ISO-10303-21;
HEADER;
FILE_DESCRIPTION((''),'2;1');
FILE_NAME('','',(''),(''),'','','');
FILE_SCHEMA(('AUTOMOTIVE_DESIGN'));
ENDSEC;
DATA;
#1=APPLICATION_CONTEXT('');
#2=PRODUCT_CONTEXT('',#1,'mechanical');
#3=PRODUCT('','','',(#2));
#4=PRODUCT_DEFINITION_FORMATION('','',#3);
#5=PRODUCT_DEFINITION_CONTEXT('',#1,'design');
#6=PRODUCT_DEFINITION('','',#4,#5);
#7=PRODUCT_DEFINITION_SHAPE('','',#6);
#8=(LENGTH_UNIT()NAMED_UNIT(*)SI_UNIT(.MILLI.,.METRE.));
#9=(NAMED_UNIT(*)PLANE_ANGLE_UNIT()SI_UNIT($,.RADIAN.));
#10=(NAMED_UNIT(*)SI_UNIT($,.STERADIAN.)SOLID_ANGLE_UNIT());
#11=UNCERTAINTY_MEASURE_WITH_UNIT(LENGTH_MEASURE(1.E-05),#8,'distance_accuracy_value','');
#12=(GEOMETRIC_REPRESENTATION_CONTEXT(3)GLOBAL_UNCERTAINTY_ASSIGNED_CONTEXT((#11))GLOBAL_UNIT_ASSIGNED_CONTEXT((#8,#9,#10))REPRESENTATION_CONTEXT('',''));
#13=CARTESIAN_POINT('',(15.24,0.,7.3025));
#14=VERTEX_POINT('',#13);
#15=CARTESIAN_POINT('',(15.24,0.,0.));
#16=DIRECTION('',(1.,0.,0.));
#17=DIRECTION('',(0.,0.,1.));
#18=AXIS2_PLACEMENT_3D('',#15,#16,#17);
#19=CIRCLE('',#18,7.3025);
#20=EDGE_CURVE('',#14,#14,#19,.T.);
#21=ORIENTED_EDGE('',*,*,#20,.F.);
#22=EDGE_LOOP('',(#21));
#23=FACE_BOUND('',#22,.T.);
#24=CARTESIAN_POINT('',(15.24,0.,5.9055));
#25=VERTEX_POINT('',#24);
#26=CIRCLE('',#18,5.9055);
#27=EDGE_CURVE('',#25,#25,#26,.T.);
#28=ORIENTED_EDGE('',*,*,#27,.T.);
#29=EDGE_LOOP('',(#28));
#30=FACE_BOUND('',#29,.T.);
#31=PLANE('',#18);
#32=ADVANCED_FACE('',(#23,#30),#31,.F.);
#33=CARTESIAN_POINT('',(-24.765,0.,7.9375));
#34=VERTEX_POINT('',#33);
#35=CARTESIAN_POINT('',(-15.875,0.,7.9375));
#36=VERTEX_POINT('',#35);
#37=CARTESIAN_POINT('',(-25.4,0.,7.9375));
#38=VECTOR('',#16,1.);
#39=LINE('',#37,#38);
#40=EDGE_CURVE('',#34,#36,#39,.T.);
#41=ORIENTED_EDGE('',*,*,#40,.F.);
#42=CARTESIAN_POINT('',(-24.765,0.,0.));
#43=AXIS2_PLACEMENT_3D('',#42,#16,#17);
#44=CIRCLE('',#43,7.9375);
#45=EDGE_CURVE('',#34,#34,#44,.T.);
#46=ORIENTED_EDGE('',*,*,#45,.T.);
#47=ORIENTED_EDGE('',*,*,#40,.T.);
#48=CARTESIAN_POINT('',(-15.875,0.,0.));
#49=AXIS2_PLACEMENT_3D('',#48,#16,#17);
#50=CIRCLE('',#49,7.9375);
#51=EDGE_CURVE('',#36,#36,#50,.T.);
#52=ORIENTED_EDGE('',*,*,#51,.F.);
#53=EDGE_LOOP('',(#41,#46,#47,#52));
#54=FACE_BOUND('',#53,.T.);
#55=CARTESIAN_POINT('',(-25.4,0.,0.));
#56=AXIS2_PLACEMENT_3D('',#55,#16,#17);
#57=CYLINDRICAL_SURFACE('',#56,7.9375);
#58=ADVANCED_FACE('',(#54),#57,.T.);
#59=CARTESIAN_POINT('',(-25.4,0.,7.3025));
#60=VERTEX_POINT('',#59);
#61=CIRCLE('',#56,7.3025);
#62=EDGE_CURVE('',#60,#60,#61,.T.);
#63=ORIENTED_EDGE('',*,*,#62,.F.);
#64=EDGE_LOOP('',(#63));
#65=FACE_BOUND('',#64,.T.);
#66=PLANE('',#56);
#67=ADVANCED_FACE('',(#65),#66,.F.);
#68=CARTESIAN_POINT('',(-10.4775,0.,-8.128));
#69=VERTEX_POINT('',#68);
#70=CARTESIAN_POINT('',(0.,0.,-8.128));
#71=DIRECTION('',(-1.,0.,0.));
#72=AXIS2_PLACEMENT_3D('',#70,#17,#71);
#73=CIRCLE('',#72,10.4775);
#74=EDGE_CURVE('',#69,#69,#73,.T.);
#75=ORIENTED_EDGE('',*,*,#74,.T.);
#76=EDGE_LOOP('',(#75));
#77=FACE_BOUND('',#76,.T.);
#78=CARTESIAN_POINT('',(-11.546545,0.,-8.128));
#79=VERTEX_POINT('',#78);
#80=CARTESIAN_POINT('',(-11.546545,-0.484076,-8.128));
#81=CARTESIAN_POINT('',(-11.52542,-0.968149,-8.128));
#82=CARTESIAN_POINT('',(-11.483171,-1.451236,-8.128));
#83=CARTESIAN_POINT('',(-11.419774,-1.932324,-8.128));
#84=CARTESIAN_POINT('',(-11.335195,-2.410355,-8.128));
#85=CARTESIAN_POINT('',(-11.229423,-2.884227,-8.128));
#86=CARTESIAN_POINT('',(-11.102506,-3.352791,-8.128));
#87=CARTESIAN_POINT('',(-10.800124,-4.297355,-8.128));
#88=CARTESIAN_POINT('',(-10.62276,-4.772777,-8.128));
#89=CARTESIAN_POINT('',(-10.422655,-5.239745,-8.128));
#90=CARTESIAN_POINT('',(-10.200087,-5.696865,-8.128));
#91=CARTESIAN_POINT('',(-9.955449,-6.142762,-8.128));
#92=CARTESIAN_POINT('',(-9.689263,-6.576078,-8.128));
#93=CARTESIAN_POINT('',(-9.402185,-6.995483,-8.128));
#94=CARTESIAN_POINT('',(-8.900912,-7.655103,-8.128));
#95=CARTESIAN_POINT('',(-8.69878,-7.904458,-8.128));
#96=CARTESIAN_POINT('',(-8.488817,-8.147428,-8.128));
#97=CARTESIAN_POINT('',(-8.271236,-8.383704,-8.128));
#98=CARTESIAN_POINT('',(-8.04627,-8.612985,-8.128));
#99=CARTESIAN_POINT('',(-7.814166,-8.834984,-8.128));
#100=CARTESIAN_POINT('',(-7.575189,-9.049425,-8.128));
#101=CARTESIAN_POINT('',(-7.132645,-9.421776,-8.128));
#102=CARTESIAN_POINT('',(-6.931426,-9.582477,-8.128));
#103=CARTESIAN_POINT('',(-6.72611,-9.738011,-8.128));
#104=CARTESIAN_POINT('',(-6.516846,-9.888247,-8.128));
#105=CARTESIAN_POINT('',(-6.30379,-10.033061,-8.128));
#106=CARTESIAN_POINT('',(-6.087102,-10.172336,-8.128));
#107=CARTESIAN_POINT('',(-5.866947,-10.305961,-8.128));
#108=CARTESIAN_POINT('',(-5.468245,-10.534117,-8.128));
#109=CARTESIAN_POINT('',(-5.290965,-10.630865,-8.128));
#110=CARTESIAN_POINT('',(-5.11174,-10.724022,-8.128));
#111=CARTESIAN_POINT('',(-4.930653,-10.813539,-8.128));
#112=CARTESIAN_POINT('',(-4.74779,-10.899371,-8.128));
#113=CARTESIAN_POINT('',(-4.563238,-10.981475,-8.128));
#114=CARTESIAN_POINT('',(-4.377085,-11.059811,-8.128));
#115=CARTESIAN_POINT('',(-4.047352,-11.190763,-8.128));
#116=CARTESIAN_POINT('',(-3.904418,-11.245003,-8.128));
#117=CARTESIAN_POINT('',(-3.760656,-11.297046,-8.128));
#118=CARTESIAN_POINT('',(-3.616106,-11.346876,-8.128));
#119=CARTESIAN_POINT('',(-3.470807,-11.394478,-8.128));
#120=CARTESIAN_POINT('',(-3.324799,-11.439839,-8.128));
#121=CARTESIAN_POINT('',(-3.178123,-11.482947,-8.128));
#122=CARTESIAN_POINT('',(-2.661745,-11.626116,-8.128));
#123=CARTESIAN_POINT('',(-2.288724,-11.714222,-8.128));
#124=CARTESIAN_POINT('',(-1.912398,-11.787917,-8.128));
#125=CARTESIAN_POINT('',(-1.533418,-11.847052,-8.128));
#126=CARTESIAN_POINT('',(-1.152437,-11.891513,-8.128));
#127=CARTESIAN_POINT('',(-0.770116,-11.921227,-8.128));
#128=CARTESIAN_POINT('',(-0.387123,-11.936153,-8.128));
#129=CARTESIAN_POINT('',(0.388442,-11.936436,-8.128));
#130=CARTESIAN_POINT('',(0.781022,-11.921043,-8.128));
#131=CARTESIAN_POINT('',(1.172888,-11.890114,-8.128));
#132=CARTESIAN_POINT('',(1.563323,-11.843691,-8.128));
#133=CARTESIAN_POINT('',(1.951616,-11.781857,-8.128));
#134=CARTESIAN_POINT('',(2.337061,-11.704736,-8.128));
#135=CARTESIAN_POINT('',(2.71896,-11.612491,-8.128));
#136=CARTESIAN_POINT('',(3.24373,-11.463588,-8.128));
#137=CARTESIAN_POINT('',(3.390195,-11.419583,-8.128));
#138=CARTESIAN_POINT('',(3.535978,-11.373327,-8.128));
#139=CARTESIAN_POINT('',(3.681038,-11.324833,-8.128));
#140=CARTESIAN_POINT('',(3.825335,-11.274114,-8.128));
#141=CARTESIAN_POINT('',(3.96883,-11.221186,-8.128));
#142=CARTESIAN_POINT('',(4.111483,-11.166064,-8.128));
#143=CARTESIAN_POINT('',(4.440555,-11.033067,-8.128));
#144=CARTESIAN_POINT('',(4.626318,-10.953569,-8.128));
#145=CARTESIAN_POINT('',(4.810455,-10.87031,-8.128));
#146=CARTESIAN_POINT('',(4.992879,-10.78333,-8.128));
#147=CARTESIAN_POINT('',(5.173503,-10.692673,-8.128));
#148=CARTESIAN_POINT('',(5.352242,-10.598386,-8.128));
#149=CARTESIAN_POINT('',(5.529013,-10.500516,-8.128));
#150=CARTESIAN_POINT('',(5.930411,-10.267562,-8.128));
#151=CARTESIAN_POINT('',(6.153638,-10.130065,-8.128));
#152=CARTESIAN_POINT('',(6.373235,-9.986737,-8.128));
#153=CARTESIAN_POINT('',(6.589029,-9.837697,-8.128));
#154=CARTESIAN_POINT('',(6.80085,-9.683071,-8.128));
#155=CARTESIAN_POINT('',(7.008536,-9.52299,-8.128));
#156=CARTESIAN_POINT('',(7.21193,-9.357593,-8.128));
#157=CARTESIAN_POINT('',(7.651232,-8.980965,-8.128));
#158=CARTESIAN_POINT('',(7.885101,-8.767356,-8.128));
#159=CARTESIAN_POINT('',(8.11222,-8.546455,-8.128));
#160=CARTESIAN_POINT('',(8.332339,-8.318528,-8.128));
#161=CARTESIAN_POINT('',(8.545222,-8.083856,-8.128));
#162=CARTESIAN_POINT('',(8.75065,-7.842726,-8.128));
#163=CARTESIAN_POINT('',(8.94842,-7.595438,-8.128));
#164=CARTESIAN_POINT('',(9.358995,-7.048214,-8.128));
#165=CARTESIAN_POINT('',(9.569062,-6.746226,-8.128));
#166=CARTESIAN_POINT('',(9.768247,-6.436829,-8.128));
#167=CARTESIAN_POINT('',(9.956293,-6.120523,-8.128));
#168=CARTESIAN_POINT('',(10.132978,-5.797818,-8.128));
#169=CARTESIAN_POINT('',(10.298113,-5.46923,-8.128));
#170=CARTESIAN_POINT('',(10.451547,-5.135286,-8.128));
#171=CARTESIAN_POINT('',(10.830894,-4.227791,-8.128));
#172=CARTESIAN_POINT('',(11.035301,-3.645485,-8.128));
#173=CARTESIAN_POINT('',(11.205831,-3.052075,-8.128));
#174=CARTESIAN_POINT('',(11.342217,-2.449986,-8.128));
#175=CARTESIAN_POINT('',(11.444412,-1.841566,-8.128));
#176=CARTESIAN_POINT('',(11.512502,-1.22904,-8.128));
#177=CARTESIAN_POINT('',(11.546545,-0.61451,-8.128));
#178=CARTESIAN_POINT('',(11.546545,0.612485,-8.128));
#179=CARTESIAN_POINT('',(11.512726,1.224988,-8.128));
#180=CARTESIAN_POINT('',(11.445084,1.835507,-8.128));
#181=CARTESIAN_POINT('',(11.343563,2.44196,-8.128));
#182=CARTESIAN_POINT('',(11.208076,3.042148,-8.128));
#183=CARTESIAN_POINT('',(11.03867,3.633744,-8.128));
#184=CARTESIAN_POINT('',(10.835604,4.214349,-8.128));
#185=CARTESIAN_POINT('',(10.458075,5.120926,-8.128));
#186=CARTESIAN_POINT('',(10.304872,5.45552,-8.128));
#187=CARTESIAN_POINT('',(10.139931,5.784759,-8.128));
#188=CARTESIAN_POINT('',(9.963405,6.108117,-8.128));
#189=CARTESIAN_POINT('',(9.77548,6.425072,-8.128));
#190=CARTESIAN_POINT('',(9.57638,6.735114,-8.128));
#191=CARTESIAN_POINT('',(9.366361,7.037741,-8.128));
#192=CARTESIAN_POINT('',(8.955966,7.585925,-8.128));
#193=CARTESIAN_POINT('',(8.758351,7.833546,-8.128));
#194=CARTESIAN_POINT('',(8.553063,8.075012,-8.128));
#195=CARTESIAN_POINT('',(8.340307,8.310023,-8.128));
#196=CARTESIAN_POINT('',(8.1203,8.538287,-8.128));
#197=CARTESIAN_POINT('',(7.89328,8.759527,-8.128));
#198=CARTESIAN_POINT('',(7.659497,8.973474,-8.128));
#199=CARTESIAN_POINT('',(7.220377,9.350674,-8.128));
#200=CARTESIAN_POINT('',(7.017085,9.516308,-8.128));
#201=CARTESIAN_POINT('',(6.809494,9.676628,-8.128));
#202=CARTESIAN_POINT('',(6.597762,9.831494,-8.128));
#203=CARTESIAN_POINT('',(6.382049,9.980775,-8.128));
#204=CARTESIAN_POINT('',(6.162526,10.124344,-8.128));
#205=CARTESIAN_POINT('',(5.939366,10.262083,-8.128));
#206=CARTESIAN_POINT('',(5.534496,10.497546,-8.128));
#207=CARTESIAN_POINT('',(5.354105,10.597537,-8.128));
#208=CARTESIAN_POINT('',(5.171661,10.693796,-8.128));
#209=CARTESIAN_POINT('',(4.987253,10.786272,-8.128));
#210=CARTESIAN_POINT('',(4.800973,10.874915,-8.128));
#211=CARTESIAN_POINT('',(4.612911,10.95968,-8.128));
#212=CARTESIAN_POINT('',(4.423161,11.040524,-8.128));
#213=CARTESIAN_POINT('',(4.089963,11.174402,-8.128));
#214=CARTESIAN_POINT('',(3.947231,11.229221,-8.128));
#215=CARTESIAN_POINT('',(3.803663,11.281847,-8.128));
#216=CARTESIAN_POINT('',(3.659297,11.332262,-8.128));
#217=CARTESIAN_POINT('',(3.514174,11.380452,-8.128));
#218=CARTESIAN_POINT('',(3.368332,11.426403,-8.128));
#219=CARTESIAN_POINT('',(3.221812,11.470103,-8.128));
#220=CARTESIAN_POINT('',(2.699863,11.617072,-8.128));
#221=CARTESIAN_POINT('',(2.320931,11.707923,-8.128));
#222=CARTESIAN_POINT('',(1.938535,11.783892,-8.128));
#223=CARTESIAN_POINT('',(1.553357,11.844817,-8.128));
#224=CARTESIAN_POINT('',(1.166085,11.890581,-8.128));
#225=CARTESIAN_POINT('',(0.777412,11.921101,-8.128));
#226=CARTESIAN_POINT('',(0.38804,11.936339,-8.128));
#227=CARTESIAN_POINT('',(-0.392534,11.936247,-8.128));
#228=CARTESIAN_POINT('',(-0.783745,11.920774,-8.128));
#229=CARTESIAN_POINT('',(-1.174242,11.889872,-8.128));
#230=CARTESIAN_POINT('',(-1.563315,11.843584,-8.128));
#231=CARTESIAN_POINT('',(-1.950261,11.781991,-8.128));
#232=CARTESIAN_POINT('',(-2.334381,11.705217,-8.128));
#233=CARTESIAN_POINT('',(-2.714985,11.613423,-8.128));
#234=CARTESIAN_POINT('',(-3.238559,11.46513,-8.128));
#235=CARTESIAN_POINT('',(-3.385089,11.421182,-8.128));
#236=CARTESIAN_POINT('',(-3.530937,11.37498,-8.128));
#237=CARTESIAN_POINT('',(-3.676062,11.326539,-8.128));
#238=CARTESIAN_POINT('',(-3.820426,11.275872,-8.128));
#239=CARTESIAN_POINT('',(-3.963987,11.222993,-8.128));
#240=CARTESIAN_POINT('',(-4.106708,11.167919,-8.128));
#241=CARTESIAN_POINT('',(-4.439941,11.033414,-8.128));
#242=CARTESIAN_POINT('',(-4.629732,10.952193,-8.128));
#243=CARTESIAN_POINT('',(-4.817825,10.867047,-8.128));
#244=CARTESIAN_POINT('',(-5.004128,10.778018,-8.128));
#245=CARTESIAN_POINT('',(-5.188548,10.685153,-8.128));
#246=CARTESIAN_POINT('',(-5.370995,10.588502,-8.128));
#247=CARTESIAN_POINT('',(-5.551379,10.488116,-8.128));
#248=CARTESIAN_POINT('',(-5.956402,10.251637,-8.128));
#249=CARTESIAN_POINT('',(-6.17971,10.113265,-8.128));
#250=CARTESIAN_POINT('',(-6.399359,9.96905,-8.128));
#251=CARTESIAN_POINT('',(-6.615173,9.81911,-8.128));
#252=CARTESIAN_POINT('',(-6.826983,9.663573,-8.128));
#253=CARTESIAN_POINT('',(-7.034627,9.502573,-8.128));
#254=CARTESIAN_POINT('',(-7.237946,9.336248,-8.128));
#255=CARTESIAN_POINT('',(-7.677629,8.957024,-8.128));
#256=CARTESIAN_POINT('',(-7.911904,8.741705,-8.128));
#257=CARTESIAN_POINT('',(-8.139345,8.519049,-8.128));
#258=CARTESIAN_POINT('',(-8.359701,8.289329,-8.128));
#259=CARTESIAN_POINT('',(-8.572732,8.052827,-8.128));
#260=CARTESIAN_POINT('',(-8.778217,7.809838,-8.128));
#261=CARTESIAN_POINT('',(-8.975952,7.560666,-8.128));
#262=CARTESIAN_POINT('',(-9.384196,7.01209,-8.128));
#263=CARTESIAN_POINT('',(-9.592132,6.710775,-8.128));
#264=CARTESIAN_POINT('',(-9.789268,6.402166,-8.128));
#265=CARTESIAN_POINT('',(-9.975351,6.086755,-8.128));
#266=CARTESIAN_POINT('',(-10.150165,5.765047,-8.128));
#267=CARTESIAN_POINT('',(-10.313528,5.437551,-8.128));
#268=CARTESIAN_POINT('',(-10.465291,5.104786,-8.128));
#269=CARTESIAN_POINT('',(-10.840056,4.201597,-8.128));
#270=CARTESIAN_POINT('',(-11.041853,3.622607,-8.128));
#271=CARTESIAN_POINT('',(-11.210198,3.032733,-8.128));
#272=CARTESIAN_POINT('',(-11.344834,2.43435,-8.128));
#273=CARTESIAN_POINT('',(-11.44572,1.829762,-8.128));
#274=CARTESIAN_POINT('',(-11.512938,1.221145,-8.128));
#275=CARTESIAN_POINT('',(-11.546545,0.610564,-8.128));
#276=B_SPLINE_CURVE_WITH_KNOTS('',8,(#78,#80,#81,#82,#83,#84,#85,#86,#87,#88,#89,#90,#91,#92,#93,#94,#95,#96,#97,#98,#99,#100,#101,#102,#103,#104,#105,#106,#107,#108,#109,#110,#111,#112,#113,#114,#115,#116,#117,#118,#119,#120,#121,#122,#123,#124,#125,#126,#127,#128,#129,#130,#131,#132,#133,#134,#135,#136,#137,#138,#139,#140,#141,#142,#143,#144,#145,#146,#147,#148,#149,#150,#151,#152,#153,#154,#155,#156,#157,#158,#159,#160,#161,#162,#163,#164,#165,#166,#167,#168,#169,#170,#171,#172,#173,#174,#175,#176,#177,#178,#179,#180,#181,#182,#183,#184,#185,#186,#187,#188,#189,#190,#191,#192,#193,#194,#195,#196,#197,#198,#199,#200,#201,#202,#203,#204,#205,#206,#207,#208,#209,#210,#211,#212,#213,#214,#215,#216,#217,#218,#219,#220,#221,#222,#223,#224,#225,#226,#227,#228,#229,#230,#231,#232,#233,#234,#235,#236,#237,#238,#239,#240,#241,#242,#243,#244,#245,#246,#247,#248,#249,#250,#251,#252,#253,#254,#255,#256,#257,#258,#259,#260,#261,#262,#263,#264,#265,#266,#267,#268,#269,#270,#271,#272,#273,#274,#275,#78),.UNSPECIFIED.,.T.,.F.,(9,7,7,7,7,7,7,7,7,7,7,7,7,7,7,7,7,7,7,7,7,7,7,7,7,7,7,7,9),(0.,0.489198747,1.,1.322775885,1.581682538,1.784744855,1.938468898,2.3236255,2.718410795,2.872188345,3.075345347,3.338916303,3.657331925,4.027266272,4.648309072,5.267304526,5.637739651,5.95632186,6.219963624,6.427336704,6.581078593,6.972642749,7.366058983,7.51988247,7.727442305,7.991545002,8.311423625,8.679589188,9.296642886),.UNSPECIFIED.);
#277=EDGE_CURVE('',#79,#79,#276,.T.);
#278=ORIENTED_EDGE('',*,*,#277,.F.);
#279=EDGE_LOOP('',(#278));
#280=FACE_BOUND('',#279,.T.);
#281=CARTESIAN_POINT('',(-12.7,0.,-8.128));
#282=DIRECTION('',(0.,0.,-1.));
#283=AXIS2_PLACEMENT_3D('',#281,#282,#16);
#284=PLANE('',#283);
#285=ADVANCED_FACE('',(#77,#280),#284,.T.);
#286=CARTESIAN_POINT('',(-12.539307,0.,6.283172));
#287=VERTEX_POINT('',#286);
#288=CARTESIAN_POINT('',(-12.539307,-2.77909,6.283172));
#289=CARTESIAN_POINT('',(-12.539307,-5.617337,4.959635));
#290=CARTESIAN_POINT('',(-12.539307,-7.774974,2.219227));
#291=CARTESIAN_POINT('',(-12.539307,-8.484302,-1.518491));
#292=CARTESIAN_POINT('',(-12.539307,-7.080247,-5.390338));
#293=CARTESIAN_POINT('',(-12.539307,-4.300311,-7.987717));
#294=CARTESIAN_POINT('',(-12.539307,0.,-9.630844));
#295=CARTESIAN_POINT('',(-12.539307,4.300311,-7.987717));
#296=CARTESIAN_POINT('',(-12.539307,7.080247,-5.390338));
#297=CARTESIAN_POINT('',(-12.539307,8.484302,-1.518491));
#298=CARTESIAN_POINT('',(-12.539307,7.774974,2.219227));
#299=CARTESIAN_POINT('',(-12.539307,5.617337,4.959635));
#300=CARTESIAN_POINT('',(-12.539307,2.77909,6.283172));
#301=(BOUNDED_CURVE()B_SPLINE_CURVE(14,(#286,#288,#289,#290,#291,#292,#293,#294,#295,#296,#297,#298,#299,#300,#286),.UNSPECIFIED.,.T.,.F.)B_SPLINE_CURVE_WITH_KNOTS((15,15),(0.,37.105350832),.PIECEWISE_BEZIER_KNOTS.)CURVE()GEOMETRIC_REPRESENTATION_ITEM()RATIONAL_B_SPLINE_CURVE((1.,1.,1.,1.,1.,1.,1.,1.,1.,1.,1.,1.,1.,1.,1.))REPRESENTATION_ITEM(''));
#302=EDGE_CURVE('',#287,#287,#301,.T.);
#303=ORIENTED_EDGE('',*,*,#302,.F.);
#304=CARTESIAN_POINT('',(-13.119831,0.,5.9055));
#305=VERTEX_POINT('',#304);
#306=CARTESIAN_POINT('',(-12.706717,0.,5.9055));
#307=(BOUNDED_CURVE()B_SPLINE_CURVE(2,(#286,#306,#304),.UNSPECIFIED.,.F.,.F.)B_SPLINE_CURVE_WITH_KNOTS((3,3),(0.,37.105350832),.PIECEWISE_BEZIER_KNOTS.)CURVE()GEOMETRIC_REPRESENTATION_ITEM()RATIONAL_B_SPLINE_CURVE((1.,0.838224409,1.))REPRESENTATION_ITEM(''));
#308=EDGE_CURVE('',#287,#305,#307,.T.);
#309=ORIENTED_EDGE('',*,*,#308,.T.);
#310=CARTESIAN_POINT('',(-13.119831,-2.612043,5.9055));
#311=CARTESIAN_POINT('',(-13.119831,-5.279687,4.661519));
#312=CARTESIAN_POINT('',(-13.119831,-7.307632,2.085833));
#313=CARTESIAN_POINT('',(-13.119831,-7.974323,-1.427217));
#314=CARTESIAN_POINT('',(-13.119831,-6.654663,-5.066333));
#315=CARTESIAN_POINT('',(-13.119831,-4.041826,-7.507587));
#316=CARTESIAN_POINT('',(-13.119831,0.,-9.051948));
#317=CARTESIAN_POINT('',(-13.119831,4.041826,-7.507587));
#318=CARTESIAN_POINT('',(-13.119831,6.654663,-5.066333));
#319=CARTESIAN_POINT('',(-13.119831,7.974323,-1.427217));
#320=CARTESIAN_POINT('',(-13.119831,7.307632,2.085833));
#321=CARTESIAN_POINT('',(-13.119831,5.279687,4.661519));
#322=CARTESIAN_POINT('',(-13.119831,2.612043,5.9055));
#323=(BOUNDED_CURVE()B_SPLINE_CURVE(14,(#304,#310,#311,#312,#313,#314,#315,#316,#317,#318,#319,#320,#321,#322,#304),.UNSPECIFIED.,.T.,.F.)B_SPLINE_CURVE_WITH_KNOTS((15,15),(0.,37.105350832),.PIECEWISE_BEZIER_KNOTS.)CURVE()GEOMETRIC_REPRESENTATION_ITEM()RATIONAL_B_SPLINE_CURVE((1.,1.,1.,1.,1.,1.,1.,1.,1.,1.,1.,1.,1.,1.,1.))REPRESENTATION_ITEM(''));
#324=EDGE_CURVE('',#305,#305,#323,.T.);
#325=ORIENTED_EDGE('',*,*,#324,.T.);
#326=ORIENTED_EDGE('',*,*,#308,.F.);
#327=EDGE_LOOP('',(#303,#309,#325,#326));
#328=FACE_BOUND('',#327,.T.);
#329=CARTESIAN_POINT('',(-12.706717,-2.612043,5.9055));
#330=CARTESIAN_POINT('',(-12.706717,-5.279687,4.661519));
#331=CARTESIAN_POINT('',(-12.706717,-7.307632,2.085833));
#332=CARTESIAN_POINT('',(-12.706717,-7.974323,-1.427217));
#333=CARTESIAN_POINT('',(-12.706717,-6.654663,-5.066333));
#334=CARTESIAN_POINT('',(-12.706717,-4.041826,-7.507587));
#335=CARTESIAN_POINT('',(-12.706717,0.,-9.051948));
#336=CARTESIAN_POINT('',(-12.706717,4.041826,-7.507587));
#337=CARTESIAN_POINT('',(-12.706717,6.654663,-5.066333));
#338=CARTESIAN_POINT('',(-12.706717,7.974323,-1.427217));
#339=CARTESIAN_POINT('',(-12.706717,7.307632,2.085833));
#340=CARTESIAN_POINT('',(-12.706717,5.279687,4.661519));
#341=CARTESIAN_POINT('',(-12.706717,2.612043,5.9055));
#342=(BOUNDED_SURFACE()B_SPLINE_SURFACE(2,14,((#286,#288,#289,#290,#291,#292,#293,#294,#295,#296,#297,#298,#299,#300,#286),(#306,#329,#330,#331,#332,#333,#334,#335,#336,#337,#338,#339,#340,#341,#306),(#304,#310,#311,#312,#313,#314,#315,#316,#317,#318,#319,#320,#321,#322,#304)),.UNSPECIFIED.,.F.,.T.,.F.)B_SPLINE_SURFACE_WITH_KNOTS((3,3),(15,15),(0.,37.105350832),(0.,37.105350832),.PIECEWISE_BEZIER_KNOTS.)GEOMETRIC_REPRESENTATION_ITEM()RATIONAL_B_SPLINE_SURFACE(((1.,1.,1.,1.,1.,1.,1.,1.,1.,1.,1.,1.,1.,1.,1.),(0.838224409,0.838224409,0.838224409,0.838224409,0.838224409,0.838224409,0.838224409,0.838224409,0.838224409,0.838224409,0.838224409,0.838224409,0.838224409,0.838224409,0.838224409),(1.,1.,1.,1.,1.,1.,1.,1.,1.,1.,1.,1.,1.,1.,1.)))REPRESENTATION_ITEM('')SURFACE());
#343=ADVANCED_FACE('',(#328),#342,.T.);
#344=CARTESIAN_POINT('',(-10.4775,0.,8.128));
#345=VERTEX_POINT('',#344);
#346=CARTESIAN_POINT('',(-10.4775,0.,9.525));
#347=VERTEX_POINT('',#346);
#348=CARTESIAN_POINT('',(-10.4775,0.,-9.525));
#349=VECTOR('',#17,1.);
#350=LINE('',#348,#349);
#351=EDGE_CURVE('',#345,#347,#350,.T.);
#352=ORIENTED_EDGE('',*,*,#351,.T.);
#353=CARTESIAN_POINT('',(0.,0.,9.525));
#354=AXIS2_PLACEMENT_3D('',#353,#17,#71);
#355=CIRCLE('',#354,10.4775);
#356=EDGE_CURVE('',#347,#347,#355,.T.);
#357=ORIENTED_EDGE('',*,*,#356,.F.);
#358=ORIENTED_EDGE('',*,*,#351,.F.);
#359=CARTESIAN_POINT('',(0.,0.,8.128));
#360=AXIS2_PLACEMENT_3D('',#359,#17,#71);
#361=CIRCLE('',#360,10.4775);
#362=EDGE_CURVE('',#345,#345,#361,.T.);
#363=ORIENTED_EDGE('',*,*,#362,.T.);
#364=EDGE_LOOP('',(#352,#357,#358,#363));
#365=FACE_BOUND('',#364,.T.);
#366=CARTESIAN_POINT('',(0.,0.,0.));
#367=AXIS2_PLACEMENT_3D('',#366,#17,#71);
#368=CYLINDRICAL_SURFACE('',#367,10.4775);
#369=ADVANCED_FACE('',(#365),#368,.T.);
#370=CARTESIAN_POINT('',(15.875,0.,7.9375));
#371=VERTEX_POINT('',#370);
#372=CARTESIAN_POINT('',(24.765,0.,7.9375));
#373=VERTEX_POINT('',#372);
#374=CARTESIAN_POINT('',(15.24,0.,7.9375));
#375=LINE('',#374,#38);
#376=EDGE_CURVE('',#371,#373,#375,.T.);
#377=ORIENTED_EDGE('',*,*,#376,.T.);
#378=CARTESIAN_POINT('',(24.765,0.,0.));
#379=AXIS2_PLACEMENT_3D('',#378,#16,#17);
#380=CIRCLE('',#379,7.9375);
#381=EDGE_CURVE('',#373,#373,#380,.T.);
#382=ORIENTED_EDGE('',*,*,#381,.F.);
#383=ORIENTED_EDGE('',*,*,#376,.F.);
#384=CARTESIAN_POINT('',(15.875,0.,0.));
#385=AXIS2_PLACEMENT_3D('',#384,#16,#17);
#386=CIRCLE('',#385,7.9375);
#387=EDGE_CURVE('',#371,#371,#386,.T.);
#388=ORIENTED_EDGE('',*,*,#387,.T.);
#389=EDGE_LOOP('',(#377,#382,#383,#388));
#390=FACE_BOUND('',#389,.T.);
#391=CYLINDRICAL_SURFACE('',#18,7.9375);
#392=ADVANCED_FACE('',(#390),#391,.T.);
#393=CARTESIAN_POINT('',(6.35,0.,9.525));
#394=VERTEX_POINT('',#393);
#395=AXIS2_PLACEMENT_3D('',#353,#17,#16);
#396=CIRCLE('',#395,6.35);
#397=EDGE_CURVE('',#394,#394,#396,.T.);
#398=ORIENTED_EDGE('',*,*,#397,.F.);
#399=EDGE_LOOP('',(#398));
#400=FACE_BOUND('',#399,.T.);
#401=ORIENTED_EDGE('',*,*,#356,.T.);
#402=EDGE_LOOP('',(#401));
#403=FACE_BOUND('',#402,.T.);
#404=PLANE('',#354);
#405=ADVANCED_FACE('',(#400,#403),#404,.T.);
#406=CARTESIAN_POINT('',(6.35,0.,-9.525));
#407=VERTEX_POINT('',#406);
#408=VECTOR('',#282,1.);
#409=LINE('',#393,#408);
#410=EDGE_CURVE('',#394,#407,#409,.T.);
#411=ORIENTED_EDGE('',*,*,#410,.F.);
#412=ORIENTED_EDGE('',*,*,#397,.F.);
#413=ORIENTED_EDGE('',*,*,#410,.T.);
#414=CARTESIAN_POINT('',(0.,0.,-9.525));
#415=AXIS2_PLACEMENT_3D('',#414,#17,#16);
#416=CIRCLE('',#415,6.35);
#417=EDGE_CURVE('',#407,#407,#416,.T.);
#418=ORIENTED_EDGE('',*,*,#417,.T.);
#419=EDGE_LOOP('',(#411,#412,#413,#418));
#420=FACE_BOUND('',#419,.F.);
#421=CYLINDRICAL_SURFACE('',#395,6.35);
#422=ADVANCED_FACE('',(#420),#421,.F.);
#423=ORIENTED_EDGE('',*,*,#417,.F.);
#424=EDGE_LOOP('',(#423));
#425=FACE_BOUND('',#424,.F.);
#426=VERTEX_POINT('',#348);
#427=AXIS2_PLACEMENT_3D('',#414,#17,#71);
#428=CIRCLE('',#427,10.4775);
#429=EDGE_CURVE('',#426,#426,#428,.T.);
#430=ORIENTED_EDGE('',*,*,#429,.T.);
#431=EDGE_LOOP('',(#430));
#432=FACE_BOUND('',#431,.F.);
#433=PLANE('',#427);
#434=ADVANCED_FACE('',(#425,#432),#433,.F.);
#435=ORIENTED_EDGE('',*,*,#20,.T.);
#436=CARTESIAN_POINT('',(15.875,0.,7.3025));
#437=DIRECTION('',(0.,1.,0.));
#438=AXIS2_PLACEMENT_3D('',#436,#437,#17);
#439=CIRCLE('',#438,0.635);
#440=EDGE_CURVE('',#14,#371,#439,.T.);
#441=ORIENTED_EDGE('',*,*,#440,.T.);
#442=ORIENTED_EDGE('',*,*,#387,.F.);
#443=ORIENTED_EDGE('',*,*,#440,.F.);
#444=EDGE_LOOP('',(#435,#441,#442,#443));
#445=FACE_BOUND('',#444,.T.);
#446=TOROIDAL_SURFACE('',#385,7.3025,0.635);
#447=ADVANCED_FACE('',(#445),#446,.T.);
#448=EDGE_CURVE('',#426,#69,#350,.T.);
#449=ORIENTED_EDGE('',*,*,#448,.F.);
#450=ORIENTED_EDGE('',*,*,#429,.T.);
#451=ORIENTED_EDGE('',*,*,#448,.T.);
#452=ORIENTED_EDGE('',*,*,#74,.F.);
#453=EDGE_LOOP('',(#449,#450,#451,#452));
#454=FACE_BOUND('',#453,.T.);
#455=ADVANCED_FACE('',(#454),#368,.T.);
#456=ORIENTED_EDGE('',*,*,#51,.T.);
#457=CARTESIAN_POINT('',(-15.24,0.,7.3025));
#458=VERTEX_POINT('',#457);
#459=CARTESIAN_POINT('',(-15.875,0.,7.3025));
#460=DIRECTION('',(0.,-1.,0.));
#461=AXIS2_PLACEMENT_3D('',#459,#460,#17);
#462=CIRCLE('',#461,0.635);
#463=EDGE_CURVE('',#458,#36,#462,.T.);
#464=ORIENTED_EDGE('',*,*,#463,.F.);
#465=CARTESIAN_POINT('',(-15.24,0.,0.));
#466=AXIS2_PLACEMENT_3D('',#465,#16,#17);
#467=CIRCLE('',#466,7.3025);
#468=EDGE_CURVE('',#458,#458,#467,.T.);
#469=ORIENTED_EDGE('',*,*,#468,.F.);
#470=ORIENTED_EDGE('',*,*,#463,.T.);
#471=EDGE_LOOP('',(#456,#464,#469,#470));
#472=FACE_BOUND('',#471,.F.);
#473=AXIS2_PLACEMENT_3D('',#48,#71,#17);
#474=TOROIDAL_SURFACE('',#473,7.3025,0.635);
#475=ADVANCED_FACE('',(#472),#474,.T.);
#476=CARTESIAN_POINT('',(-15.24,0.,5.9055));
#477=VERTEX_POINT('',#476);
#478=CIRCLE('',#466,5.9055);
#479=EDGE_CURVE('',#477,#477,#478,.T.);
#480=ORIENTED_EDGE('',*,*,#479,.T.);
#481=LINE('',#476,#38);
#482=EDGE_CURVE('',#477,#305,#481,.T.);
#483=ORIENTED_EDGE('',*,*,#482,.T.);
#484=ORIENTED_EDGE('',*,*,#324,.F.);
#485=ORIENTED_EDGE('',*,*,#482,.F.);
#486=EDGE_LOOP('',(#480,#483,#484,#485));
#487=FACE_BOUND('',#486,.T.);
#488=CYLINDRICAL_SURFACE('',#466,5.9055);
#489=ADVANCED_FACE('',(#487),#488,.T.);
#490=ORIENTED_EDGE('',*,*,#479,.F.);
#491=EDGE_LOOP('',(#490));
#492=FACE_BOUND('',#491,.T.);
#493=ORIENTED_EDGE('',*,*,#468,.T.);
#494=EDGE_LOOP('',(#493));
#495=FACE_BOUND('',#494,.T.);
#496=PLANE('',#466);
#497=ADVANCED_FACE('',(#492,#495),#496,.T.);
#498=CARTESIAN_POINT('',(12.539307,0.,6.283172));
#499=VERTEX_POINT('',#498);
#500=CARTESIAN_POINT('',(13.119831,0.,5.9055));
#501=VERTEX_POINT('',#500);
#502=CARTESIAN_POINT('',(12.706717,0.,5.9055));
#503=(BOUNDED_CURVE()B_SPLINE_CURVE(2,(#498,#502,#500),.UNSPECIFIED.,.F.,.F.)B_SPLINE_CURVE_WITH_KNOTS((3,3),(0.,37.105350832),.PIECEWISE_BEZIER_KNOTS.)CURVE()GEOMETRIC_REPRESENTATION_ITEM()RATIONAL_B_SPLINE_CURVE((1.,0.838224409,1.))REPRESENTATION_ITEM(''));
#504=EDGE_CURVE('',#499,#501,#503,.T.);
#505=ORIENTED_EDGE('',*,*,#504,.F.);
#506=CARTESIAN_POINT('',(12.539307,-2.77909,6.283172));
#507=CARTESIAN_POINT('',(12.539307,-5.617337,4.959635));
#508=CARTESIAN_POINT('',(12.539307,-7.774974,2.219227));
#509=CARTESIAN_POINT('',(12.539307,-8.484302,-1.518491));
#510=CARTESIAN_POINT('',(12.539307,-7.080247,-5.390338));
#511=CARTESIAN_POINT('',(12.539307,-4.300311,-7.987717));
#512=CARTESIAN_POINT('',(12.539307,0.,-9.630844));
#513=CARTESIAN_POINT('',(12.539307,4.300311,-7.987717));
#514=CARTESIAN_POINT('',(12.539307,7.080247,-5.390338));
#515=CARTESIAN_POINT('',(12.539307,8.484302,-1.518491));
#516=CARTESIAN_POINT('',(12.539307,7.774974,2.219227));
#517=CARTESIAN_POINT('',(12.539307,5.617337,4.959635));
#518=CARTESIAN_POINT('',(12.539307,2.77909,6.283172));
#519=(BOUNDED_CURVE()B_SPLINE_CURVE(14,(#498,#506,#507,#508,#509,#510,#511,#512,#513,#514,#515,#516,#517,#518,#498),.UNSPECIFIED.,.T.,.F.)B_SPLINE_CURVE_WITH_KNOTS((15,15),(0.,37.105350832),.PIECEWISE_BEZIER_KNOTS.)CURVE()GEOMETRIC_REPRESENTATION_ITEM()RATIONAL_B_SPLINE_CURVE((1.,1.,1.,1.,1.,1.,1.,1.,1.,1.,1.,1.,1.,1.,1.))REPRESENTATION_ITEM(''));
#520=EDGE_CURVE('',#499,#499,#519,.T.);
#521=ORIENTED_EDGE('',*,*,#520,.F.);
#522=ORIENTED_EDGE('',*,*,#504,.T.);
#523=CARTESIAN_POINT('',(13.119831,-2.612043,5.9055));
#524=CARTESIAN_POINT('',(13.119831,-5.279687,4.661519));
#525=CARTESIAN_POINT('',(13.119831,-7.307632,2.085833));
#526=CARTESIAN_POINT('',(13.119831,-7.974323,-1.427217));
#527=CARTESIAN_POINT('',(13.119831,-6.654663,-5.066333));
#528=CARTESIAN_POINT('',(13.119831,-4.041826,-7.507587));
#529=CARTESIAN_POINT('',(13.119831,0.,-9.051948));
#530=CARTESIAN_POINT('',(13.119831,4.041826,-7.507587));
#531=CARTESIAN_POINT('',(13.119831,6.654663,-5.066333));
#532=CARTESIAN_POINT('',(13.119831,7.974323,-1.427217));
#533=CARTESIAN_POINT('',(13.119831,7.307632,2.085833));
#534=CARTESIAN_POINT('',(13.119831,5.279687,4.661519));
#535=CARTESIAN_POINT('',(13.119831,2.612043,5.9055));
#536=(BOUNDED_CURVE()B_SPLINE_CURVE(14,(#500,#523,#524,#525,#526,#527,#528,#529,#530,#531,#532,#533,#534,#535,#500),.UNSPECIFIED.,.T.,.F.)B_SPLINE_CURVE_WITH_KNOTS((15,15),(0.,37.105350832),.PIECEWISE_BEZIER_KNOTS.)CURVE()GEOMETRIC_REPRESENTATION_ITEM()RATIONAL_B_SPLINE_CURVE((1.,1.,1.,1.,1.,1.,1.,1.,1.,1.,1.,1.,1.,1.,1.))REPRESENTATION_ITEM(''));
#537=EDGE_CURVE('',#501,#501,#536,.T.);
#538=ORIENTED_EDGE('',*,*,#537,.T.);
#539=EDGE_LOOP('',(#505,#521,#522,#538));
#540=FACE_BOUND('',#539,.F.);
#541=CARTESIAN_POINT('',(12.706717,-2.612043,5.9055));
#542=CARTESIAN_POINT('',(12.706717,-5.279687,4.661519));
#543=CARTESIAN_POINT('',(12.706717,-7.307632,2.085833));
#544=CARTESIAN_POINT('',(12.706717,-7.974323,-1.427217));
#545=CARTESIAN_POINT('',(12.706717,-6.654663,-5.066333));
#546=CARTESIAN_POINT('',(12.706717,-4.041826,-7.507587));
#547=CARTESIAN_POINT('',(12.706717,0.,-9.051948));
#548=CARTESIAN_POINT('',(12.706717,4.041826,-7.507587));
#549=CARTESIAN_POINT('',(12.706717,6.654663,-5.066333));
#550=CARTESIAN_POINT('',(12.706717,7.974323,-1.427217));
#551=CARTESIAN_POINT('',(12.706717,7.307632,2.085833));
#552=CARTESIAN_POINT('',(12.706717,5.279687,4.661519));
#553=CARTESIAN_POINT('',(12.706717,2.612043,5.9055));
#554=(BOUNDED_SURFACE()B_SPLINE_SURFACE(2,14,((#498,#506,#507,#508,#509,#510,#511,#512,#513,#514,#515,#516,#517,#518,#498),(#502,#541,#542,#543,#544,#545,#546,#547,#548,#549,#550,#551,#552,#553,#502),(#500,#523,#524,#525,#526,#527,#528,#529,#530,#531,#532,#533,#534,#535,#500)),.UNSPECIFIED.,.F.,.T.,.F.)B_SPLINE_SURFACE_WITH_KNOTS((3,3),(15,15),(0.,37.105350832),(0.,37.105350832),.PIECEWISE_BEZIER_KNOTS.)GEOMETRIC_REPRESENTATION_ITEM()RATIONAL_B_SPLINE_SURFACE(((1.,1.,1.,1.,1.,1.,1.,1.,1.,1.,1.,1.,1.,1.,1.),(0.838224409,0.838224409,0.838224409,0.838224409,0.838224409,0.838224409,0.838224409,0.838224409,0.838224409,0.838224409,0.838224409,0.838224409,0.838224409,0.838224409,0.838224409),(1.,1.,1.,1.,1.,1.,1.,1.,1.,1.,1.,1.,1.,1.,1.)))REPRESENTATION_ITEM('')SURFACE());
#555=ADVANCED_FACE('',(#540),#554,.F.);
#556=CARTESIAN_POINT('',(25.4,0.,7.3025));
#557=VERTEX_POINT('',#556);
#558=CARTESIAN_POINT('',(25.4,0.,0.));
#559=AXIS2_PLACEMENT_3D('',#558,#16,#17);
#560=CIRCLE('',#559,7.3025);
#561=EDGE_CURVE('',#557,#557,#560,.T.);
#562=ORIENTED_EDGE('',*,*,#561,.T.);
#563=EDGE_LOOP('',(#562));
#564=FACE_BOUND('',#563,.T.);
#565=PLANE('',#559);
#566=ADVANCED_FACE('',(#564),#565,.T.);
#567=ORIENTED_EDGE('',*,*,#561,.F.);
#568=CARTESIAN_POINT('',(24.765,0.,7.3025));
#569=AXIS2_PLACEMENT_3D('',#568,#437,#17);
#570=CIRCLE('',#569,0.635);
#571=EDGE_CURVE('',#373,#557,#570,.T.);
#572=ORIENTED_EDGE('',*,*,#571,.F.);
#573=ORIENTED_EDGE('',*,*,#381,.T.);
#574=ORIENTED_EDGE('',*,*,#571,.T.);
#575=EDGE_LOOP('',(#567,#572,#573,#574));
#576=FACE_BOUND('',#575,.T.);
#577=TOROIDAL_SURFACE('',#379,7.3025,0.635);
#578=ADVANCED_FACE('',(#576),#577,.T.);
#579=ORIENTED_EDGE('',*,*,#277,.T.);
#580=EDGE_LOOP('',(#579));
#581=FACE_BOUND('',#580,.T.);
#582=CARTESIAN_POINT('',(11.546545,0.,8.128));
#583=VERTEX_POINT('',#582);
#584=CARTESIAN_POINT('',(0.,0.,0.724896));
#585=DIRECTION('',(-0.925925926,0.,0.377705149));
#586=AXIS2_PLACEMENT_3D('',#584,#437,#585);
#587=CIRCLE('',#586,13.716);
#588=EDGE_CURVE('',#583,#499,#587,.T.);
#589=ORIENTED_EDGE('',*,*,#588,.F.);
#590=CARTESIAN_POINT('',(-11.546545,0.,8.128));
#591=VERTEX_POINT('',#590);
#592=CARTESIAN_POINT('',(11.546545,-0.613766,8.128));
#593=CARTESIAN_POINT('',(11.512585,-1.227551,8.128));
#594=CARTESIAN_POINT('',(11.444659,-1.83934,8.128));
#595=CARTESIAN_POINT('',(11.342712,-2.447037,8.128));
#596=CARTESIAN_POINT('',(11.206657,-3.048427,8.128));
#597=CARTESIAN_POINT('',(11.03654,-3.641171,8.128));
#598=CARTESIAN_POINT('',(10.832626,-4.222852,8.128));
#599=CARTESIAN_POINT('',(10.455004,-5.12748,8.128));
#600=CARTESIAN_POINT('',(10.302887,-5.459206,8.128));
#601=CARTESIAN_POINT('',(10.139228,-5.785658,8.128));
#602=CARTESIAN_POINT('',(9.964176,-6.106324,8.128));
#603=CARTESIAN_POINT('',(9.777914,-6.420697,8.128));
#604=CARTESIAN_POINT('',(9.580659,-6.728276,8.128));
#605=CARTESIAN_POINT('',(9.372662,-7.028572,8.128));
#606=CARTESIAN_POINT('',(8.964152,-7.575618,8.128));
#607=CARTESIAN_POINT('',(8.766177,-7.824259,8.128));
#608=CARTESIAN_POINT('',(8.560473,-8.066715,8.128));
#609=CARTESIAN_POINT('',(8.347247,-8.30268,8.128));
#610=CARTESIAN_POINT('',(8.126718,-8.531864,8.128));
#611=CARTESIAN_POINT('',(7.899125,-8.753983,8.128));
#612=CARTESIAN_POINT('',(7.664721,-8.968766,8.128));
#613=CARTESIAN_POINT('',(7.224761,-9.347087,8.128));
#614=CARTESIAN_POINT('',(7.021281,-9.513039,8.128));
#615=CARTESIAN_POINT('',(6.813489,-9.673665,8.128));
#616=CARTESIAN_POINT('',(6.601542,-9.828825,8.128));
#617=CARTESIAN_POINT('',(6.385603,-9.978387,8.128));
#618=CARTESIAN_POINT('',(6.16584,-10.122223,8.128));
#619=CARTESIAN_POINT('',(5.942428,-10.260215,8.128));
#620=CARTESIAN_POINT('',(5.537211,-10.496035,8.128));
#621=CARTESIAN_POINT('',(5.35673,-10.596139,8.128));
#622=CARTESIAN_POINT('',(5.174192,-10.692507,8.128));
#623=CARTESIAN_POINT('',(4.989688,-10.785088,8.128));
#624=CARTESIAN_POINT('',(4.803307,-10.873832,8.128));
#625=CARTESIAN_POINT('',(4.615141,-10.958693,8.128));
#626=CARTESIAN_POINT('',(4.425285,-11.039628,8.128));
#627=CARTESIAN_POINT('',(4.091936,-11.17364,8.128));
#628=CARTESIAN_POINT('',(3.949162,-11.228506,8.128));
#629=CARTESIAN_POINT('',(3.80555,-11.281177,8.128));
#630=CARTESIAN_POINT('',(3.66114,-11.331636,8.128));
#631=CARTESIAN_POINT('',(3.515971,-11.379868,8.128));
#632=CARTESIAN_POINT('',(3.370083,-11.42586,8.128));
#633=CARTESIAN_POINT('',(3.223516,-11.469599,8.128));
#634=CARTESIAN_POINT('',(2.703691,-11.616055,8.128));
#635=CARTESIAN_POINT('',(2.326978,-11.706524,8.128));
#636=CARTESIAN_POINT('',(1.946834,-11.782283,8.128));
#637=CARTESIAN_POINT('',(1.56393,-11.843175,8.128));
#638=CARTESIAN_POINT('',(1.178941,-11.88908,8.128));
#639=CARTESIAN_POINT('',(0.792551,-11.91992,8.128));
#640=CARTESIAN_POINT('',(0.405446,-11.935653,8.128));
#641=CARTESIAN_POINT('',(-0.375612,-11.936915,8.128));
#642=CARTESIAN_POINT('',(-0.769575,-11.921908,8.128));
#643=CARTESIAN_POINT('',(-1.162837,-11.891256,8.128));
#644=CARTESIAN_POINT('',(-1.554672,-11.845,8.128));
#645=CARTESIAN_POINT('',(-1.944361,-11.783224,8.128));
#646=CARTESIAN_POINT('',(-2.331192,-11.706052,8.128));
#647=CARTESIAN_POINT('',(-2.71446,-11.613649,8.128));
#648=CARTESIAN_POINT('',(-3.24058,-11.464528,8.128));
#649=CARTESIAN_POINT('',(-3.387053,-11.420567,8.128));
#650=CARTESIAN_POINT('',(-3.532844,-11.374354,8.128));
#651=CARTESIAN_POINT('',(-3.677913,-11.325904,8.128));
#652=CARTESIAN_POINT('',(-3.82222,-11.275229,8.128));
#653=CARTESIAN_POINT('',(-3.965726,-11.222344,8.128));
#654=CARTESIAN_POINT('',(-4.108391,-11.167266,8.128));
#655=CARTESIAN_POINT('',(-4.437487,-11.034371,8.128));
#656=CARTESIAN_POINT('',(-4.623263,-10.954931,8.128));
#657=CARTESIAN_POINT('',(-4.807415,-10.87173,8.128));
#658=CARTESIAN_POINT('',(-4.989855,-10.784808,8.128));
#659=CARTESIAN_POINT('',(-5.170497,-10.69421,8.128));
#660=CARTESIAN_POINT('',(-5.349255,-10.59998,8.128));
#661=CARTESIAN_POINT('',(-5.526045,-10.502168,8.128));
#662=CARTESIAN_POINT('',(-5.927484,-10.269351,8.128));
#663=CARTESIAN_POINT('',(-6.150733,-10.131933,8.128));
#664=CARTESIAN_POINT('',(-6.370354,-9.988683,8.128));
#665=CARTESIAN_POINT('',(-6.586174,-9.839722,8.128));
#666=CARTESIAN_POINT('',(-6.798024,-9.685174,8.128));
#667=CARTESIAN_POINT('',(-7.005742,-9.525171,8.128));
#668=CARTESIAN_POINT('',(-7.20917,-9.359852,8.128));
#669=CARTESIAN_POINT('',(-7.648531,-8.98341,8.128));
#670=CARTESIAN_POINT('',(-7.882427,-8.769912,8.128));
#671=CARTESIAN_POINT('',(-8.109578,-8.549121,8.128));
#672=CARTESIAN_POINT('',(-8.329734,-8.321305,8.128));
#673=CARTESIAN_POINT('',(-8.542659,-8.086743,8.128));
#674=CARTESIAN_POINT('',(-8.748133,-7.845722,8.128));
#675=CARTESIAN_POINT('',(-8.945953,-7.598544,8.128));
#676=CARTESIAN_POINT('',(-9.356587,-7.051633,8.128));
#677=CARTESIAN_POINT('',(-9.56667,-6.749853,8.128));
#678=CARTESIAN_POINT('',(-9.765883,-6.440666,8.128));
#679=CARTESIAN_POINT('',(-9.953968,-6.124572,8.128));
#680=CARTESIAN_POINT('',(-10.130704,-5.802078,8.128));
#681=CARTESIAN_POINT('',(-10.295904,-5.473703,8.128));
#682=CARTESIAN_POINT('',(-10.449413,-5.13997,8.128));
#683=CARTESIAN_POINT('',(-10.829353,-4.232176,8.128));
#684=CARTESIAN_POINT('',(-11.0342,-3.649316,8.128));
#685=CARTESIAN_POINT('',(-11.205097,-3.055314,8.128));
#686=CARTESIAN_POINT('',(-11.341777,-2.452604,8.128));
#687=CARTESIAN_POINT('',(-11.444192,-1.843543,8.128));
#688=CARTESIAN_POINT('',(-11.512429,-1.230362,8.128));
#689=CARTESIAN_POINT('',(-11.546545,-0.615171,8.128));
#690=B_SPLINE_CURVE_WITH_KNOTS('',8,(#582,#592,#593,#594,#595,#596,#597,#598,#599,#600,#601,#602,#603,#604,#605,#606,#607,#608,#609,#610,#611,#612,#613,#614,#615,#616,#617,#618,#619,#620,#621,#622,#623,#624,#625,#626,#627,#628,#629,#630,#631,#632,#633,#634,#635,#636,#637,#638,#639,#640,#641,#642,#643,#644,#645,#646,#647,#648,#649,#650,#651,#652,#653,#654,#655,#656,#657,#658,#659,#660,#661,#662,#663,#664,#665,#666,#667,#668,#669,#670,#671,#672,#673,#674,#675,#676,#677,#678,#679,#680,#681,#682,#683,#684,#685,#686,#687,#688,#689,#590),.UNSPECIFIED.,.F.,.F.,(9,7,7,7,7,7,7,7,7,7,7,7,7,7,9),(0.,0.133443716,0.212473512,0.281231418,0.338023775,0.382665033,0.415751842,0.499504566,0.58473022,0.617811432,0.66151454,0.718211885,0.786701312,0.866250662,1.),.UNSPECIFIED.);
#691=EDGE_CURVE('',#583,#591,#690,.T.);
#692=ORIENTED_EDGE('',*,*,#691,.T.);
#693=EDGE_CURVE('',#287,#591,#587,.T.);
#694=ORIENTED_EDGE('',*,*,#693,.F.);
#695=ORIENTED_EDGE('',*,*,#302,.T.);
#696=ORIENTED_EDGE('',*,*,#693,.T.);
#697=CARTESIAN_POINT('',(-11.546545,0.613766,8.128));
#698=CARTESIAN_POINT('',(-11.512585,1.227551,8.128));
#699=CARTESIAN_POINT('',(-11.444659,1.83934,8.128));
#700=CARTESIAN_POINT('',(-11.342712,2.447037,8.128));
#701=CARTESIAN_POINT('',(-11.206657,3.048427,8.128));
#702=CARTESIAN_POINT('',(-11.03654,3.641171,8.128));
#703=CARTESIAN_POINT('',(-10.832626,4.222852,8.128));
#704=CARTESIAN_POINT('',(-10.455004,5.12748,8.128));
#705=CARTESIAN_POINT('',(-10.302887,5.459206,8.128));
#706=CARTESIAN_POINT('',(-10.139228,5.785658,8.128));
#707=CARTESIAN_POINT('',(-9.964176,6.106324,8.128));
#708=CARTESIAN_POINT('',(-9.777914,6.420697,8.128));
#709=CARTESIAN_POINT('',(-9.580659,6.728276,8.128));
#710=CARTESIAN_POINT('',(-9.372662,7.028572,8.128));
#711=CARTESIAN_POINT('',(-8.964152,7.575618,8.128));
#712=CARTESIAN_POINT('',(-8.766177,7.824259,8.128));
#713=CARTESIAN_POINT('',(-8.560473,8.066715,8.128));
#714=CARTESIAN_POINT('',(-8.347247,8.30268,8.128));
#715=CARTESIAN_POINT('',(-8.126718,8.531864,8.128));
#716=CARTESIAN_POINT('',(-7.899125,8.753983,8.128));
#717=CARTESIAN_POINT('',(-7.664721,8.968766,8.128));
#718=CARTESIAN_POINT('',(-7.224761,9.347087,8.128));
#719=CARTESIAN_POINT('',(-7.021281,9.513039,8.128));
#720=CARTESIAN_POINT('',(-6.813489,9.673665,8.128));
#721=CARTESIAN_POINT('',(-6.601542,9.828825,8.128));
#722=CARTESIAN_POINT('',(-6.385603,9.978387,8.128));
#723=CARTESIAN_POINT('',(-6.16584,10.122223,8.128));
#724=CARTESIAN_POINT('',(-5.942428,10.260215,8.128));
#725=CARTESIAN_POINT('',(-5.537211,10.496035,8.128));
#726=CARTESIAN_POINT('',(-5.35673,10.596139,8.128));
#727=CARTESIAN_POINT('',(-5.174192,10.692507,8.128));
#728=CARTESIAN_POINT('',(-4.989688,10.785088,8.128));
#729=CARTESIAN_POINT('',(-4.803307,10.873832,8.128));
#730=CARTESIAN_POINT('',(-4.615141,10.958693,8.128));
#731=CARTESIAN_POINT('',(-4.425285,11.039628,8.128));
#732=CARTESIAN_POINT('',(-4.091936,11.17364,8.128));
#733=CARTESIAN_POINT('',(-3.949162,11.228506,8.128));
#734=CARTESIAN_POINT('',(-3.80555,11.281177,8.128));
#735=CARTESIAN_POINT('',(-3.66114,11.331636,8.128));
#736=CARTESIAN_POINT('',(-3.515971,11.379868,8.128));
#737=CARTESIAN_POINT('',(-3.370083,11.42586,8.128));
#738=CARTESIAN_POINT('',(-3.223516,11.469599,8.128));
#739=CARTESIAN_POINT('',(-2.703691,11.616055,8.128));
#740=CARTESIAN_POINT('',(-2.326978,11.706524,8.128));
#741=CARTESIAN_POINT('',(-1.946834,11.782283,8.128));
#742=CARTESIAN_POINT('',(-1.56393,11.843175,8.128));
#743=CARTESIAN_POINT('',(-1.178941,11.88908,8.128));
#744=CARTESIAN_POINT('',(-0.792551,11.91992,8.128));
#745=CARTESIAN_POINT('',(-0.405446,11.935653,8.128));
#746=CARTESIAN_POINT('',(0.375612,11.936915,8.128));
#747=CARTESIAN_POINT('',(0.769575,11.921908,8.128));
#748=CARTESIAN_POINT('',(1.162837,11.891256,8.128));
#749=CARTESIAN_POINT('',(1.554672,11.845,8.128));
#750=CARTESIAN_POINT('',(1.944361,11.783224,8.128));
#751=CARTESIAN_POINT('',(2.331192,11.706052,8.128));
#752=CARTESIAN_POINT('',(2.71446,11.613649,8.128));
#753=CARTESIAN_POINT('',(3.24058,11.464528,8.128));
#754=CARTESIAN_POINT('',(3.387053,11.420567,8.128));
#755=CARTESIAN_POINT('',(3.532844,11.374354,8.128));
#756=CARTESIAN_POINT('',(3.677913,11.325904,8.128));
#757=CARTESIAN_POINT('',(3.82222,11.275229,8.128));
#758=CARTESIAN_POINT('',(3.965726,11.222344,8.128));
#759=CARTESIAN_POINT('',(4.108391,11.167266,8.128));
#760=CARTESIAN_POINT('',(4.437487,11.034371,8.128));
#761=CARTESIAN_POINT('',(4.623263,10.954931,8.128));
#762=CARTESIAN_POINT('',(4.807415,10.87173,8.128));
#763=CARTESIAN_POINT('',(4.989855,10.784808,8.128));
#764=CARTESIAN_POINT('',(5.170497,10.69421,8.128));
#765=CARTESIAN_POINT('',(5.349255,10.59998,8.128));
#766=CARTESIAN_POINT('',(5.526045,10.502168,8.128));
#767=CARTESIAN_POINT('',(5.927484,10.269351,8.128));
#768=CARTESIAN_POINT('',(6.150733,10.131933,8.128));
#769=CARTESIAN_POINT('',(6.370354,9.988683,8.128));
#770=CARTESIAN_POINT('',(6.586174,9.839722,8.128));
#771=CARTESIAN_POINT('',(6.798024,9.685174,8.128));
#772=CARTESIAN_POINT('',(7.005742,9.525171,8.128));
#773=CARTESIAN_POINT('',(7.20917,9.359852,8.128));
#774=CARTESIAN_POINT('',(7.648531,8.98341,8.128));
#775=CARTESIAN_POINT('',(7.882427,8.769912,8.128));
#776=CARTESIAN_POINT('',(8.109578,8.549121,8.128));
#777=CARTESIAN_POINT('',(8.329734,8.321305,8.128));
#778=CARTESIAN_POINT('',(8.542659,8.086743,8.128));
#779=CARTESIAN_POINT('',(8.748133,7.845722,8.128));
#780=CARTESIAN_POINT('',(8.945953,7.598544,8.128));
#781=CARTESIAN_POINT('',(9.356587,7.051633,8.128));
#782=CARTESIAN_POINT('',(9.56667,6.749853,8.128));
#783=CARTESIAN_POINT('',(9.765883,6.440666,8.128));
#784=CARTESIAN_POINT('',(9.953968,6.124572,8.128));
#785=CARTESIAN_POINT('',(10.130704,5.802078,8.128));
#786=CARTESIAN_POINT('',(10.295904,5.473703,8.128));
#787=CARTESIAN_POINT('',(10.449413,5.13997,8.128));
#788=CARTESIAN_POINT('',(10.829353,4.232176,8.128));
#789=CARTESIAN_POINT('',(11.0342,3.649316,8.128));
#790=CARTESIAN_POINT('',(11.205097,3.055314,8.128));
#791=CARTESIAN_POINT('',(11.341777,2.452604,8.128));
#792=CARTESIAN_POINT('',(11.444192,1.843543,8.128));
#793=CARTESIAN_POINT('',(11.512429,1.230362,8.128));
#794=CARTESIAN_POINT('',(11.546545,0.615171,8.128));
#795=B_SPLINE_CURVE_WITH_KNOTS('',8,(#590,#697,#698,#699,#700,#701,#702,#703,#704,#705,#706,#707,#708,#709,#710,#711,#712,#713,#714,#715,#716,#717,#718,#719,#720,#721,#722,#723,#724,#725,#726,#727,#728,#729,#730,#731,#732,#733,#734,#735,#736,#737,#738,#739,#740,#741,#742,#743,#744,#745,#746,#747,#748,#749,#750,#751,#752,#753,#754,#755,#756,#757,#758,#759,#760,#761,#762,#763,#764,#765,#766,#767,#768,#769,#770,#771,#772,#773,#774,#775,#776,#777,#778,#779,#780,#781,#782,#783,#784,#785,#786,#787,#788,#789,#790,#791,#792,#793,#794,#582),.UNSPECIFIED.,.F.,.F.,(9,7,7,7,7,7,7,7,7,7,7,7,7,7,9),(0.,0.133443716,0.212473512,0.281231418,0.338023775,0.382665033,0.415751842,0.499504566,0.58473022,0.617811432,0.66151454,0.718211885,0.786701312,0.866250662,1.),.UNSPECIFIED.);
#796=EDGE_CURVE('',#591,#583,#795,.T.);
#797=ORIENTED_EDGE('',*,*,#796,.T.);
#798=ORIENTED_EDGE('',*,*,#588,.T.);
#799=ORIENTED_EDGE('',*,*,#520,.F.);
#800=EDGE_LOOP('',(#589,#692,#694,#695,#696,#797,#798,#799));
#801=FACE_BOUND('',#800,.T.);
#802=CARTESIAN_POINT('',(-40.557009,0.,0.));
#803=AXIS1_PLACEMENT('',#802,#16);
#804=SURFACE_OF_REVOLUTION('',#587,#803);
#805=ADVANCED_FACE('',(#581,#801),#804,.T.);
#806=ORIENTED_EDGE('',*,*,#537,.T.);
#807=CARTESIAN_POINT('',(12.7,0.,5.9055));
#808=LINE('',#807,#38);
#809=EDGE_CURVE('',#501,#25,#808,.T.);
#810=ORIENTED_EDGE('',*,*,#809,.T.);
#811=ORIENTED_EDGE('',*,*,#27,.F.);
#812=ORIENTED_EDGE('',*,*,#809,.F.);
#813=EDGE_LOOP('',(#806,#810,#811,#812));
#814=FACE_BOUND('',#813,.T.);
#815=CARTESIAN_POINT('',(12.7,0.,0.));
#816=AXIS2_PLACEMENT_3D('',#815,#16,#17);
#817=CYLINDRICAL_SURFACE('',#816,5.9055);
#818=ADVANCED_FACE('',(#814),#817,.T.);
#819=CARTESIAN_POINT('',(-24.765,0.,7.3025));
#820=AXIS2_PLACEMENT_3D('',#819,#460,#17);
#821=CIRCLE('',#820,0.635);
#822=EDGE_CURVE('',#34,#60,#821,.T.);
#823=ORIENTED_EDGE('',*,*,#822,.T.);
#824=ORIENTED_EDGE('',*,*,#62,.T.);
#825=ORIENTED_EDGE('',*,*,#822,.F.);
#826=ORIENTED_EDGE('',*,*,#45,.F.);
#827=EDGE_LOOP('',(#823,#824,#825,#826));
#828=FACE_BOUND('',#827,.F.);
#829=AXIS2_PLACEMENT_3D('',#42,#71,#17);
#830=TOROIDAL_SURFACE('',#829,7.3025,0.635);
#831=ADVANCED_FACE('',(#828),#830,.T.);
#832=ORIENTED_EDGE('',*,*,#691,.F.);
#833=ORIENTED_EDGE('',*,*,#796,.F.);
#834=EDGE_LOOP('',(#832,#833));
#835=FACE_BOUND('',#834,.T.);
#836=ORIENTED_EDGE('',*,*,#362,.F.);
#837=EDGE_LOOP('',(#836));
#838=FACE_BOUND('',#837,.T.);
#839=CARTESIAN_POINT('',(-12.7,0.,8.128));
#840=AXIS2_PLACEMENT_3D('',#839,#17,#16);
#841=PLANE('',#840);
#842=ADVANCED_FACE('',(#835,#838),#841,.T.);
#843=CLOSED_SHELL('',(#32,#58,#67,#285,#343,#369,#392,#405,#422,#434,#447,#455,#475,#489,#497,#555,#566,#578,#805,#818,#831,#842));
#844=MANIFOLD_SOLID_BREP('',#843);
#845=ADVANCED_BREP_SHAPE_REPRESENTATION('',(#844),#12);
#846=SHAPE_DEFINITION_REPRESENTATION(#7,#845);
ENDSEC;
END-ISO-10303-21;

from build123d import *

# Parameters (mm, degrees)
SKETCH2_W               = 25.4
SKETCH2_H               = 15.168817315
SKETCH2_H_2             = 15.538076977
CUT_EXTRUDE1_DEPTH      = 33.592007769
CUT_EXTRUDE1_DEPTH_BACK = 33.592007769
SKETCH3_R               = 10.4775
BOSS_EXTRUDE1_DEPTH     = 9.525
SKETCH4_R               = 6.35
CUT_EXTRUDE2_DEPTH      = 35.879822035
FILLET1_R               = 0.635


with BuildPart() as part:
    # Sketch1 → Revolve1 (revolve)
    with BuildSketch(Plane.XY, mode=Mode.PRIVATE) as revolve1_sk:
        with BuildLine():
            Line((-25.4, 0), (-25.4, 7.9375))
            Line((-25.4, 7.9375), (-15.24, 7.9375))
            Line((-15.24, 7.9375), (-15.24, 5.9055))
            Line((-15.24, 5.9055), (-12.7, 5.9055))
            ThreePointArc((-12.7, 5.9055), (0, 14.440896174), (12.7, 5.9055))
            Line((12.7, 5.9055), (15.24, 5.9055))
            Line((15.24, 5.9055), (15.24, 7.9375))
            Line((15.24, 7.9375), (25.4, 7.9375))
            Line((25.4, 7.9375), (25.4, 0))
            Line((25.4, 0), (-25.4, 0))
        make_face()
    revolve(revolve1_sk.sketch.rotate(Axis((-40.55700935, 0, 0), (1, 0, 0)), 90), axis=Axis((-40.55700935, 0, 0), (1, 0, 0)))

    # Sketch2 → Cut-Extrude1 (cut, two sides)
    with BuildSketch(Plane(origin=(0, 0, 0), x_dir=(1, 0, 0), z_dir=(0, 1, 0))) as cut_extrude1_sk:
        with Locations((0, 15.712408658)):
            Rectangle(SKETCH2_W, SKETCH2_H)
        with Locations((0, -15.897038489)):
            Rectangle(SKETCH2_W, SKETCH2_H_2)
    extrude(amount=CUT_EXTRUDE1_DEPTH, mode=Mode.SUBTRACT)
    extrude(cut_extrude1_sk.sketch, amount=-CUT_EXTRUDE1_DEPTH_BACK, mode=Mode.SUBTRACT)

    # Sketch3 → Boss-Extrude1 (add, symmetric)
    with BuildSketch(Plane.XY):
        with Locations(Location((0, 0, 0), (0, 0, 180))):
            Circle(SKETCH3_R)
    extrude(amount=BOSS_EXTRUDE1_DEPTH, both=True)

    # Sketch4 → Cut-Extrude2 (cut, through all)
    with BuildSketch(Plane.XY.offset(9.525)):
        Circle(SKETCH4_R)
    extrude(amount=-CUT_EXTRUDE2_DEPTH, mode=Mode.SUBTRACT)

    # Fillet1
    fillet1_edges = [part.edges().sort_by_distance(p)[0] for p in [
        (15.24, 0, -7.9375),
        (25.4, 0, -7.9375),
        (-25.4, 0, -7.9375),
        (-15.24, 0, -7.9375),
        (-12.7, 0, -5.9055),
        (12.7, 0, -5.9055),
    ]]
    fillet(fillet1_edges, radius=FILLET1_R)


solid = part.part
